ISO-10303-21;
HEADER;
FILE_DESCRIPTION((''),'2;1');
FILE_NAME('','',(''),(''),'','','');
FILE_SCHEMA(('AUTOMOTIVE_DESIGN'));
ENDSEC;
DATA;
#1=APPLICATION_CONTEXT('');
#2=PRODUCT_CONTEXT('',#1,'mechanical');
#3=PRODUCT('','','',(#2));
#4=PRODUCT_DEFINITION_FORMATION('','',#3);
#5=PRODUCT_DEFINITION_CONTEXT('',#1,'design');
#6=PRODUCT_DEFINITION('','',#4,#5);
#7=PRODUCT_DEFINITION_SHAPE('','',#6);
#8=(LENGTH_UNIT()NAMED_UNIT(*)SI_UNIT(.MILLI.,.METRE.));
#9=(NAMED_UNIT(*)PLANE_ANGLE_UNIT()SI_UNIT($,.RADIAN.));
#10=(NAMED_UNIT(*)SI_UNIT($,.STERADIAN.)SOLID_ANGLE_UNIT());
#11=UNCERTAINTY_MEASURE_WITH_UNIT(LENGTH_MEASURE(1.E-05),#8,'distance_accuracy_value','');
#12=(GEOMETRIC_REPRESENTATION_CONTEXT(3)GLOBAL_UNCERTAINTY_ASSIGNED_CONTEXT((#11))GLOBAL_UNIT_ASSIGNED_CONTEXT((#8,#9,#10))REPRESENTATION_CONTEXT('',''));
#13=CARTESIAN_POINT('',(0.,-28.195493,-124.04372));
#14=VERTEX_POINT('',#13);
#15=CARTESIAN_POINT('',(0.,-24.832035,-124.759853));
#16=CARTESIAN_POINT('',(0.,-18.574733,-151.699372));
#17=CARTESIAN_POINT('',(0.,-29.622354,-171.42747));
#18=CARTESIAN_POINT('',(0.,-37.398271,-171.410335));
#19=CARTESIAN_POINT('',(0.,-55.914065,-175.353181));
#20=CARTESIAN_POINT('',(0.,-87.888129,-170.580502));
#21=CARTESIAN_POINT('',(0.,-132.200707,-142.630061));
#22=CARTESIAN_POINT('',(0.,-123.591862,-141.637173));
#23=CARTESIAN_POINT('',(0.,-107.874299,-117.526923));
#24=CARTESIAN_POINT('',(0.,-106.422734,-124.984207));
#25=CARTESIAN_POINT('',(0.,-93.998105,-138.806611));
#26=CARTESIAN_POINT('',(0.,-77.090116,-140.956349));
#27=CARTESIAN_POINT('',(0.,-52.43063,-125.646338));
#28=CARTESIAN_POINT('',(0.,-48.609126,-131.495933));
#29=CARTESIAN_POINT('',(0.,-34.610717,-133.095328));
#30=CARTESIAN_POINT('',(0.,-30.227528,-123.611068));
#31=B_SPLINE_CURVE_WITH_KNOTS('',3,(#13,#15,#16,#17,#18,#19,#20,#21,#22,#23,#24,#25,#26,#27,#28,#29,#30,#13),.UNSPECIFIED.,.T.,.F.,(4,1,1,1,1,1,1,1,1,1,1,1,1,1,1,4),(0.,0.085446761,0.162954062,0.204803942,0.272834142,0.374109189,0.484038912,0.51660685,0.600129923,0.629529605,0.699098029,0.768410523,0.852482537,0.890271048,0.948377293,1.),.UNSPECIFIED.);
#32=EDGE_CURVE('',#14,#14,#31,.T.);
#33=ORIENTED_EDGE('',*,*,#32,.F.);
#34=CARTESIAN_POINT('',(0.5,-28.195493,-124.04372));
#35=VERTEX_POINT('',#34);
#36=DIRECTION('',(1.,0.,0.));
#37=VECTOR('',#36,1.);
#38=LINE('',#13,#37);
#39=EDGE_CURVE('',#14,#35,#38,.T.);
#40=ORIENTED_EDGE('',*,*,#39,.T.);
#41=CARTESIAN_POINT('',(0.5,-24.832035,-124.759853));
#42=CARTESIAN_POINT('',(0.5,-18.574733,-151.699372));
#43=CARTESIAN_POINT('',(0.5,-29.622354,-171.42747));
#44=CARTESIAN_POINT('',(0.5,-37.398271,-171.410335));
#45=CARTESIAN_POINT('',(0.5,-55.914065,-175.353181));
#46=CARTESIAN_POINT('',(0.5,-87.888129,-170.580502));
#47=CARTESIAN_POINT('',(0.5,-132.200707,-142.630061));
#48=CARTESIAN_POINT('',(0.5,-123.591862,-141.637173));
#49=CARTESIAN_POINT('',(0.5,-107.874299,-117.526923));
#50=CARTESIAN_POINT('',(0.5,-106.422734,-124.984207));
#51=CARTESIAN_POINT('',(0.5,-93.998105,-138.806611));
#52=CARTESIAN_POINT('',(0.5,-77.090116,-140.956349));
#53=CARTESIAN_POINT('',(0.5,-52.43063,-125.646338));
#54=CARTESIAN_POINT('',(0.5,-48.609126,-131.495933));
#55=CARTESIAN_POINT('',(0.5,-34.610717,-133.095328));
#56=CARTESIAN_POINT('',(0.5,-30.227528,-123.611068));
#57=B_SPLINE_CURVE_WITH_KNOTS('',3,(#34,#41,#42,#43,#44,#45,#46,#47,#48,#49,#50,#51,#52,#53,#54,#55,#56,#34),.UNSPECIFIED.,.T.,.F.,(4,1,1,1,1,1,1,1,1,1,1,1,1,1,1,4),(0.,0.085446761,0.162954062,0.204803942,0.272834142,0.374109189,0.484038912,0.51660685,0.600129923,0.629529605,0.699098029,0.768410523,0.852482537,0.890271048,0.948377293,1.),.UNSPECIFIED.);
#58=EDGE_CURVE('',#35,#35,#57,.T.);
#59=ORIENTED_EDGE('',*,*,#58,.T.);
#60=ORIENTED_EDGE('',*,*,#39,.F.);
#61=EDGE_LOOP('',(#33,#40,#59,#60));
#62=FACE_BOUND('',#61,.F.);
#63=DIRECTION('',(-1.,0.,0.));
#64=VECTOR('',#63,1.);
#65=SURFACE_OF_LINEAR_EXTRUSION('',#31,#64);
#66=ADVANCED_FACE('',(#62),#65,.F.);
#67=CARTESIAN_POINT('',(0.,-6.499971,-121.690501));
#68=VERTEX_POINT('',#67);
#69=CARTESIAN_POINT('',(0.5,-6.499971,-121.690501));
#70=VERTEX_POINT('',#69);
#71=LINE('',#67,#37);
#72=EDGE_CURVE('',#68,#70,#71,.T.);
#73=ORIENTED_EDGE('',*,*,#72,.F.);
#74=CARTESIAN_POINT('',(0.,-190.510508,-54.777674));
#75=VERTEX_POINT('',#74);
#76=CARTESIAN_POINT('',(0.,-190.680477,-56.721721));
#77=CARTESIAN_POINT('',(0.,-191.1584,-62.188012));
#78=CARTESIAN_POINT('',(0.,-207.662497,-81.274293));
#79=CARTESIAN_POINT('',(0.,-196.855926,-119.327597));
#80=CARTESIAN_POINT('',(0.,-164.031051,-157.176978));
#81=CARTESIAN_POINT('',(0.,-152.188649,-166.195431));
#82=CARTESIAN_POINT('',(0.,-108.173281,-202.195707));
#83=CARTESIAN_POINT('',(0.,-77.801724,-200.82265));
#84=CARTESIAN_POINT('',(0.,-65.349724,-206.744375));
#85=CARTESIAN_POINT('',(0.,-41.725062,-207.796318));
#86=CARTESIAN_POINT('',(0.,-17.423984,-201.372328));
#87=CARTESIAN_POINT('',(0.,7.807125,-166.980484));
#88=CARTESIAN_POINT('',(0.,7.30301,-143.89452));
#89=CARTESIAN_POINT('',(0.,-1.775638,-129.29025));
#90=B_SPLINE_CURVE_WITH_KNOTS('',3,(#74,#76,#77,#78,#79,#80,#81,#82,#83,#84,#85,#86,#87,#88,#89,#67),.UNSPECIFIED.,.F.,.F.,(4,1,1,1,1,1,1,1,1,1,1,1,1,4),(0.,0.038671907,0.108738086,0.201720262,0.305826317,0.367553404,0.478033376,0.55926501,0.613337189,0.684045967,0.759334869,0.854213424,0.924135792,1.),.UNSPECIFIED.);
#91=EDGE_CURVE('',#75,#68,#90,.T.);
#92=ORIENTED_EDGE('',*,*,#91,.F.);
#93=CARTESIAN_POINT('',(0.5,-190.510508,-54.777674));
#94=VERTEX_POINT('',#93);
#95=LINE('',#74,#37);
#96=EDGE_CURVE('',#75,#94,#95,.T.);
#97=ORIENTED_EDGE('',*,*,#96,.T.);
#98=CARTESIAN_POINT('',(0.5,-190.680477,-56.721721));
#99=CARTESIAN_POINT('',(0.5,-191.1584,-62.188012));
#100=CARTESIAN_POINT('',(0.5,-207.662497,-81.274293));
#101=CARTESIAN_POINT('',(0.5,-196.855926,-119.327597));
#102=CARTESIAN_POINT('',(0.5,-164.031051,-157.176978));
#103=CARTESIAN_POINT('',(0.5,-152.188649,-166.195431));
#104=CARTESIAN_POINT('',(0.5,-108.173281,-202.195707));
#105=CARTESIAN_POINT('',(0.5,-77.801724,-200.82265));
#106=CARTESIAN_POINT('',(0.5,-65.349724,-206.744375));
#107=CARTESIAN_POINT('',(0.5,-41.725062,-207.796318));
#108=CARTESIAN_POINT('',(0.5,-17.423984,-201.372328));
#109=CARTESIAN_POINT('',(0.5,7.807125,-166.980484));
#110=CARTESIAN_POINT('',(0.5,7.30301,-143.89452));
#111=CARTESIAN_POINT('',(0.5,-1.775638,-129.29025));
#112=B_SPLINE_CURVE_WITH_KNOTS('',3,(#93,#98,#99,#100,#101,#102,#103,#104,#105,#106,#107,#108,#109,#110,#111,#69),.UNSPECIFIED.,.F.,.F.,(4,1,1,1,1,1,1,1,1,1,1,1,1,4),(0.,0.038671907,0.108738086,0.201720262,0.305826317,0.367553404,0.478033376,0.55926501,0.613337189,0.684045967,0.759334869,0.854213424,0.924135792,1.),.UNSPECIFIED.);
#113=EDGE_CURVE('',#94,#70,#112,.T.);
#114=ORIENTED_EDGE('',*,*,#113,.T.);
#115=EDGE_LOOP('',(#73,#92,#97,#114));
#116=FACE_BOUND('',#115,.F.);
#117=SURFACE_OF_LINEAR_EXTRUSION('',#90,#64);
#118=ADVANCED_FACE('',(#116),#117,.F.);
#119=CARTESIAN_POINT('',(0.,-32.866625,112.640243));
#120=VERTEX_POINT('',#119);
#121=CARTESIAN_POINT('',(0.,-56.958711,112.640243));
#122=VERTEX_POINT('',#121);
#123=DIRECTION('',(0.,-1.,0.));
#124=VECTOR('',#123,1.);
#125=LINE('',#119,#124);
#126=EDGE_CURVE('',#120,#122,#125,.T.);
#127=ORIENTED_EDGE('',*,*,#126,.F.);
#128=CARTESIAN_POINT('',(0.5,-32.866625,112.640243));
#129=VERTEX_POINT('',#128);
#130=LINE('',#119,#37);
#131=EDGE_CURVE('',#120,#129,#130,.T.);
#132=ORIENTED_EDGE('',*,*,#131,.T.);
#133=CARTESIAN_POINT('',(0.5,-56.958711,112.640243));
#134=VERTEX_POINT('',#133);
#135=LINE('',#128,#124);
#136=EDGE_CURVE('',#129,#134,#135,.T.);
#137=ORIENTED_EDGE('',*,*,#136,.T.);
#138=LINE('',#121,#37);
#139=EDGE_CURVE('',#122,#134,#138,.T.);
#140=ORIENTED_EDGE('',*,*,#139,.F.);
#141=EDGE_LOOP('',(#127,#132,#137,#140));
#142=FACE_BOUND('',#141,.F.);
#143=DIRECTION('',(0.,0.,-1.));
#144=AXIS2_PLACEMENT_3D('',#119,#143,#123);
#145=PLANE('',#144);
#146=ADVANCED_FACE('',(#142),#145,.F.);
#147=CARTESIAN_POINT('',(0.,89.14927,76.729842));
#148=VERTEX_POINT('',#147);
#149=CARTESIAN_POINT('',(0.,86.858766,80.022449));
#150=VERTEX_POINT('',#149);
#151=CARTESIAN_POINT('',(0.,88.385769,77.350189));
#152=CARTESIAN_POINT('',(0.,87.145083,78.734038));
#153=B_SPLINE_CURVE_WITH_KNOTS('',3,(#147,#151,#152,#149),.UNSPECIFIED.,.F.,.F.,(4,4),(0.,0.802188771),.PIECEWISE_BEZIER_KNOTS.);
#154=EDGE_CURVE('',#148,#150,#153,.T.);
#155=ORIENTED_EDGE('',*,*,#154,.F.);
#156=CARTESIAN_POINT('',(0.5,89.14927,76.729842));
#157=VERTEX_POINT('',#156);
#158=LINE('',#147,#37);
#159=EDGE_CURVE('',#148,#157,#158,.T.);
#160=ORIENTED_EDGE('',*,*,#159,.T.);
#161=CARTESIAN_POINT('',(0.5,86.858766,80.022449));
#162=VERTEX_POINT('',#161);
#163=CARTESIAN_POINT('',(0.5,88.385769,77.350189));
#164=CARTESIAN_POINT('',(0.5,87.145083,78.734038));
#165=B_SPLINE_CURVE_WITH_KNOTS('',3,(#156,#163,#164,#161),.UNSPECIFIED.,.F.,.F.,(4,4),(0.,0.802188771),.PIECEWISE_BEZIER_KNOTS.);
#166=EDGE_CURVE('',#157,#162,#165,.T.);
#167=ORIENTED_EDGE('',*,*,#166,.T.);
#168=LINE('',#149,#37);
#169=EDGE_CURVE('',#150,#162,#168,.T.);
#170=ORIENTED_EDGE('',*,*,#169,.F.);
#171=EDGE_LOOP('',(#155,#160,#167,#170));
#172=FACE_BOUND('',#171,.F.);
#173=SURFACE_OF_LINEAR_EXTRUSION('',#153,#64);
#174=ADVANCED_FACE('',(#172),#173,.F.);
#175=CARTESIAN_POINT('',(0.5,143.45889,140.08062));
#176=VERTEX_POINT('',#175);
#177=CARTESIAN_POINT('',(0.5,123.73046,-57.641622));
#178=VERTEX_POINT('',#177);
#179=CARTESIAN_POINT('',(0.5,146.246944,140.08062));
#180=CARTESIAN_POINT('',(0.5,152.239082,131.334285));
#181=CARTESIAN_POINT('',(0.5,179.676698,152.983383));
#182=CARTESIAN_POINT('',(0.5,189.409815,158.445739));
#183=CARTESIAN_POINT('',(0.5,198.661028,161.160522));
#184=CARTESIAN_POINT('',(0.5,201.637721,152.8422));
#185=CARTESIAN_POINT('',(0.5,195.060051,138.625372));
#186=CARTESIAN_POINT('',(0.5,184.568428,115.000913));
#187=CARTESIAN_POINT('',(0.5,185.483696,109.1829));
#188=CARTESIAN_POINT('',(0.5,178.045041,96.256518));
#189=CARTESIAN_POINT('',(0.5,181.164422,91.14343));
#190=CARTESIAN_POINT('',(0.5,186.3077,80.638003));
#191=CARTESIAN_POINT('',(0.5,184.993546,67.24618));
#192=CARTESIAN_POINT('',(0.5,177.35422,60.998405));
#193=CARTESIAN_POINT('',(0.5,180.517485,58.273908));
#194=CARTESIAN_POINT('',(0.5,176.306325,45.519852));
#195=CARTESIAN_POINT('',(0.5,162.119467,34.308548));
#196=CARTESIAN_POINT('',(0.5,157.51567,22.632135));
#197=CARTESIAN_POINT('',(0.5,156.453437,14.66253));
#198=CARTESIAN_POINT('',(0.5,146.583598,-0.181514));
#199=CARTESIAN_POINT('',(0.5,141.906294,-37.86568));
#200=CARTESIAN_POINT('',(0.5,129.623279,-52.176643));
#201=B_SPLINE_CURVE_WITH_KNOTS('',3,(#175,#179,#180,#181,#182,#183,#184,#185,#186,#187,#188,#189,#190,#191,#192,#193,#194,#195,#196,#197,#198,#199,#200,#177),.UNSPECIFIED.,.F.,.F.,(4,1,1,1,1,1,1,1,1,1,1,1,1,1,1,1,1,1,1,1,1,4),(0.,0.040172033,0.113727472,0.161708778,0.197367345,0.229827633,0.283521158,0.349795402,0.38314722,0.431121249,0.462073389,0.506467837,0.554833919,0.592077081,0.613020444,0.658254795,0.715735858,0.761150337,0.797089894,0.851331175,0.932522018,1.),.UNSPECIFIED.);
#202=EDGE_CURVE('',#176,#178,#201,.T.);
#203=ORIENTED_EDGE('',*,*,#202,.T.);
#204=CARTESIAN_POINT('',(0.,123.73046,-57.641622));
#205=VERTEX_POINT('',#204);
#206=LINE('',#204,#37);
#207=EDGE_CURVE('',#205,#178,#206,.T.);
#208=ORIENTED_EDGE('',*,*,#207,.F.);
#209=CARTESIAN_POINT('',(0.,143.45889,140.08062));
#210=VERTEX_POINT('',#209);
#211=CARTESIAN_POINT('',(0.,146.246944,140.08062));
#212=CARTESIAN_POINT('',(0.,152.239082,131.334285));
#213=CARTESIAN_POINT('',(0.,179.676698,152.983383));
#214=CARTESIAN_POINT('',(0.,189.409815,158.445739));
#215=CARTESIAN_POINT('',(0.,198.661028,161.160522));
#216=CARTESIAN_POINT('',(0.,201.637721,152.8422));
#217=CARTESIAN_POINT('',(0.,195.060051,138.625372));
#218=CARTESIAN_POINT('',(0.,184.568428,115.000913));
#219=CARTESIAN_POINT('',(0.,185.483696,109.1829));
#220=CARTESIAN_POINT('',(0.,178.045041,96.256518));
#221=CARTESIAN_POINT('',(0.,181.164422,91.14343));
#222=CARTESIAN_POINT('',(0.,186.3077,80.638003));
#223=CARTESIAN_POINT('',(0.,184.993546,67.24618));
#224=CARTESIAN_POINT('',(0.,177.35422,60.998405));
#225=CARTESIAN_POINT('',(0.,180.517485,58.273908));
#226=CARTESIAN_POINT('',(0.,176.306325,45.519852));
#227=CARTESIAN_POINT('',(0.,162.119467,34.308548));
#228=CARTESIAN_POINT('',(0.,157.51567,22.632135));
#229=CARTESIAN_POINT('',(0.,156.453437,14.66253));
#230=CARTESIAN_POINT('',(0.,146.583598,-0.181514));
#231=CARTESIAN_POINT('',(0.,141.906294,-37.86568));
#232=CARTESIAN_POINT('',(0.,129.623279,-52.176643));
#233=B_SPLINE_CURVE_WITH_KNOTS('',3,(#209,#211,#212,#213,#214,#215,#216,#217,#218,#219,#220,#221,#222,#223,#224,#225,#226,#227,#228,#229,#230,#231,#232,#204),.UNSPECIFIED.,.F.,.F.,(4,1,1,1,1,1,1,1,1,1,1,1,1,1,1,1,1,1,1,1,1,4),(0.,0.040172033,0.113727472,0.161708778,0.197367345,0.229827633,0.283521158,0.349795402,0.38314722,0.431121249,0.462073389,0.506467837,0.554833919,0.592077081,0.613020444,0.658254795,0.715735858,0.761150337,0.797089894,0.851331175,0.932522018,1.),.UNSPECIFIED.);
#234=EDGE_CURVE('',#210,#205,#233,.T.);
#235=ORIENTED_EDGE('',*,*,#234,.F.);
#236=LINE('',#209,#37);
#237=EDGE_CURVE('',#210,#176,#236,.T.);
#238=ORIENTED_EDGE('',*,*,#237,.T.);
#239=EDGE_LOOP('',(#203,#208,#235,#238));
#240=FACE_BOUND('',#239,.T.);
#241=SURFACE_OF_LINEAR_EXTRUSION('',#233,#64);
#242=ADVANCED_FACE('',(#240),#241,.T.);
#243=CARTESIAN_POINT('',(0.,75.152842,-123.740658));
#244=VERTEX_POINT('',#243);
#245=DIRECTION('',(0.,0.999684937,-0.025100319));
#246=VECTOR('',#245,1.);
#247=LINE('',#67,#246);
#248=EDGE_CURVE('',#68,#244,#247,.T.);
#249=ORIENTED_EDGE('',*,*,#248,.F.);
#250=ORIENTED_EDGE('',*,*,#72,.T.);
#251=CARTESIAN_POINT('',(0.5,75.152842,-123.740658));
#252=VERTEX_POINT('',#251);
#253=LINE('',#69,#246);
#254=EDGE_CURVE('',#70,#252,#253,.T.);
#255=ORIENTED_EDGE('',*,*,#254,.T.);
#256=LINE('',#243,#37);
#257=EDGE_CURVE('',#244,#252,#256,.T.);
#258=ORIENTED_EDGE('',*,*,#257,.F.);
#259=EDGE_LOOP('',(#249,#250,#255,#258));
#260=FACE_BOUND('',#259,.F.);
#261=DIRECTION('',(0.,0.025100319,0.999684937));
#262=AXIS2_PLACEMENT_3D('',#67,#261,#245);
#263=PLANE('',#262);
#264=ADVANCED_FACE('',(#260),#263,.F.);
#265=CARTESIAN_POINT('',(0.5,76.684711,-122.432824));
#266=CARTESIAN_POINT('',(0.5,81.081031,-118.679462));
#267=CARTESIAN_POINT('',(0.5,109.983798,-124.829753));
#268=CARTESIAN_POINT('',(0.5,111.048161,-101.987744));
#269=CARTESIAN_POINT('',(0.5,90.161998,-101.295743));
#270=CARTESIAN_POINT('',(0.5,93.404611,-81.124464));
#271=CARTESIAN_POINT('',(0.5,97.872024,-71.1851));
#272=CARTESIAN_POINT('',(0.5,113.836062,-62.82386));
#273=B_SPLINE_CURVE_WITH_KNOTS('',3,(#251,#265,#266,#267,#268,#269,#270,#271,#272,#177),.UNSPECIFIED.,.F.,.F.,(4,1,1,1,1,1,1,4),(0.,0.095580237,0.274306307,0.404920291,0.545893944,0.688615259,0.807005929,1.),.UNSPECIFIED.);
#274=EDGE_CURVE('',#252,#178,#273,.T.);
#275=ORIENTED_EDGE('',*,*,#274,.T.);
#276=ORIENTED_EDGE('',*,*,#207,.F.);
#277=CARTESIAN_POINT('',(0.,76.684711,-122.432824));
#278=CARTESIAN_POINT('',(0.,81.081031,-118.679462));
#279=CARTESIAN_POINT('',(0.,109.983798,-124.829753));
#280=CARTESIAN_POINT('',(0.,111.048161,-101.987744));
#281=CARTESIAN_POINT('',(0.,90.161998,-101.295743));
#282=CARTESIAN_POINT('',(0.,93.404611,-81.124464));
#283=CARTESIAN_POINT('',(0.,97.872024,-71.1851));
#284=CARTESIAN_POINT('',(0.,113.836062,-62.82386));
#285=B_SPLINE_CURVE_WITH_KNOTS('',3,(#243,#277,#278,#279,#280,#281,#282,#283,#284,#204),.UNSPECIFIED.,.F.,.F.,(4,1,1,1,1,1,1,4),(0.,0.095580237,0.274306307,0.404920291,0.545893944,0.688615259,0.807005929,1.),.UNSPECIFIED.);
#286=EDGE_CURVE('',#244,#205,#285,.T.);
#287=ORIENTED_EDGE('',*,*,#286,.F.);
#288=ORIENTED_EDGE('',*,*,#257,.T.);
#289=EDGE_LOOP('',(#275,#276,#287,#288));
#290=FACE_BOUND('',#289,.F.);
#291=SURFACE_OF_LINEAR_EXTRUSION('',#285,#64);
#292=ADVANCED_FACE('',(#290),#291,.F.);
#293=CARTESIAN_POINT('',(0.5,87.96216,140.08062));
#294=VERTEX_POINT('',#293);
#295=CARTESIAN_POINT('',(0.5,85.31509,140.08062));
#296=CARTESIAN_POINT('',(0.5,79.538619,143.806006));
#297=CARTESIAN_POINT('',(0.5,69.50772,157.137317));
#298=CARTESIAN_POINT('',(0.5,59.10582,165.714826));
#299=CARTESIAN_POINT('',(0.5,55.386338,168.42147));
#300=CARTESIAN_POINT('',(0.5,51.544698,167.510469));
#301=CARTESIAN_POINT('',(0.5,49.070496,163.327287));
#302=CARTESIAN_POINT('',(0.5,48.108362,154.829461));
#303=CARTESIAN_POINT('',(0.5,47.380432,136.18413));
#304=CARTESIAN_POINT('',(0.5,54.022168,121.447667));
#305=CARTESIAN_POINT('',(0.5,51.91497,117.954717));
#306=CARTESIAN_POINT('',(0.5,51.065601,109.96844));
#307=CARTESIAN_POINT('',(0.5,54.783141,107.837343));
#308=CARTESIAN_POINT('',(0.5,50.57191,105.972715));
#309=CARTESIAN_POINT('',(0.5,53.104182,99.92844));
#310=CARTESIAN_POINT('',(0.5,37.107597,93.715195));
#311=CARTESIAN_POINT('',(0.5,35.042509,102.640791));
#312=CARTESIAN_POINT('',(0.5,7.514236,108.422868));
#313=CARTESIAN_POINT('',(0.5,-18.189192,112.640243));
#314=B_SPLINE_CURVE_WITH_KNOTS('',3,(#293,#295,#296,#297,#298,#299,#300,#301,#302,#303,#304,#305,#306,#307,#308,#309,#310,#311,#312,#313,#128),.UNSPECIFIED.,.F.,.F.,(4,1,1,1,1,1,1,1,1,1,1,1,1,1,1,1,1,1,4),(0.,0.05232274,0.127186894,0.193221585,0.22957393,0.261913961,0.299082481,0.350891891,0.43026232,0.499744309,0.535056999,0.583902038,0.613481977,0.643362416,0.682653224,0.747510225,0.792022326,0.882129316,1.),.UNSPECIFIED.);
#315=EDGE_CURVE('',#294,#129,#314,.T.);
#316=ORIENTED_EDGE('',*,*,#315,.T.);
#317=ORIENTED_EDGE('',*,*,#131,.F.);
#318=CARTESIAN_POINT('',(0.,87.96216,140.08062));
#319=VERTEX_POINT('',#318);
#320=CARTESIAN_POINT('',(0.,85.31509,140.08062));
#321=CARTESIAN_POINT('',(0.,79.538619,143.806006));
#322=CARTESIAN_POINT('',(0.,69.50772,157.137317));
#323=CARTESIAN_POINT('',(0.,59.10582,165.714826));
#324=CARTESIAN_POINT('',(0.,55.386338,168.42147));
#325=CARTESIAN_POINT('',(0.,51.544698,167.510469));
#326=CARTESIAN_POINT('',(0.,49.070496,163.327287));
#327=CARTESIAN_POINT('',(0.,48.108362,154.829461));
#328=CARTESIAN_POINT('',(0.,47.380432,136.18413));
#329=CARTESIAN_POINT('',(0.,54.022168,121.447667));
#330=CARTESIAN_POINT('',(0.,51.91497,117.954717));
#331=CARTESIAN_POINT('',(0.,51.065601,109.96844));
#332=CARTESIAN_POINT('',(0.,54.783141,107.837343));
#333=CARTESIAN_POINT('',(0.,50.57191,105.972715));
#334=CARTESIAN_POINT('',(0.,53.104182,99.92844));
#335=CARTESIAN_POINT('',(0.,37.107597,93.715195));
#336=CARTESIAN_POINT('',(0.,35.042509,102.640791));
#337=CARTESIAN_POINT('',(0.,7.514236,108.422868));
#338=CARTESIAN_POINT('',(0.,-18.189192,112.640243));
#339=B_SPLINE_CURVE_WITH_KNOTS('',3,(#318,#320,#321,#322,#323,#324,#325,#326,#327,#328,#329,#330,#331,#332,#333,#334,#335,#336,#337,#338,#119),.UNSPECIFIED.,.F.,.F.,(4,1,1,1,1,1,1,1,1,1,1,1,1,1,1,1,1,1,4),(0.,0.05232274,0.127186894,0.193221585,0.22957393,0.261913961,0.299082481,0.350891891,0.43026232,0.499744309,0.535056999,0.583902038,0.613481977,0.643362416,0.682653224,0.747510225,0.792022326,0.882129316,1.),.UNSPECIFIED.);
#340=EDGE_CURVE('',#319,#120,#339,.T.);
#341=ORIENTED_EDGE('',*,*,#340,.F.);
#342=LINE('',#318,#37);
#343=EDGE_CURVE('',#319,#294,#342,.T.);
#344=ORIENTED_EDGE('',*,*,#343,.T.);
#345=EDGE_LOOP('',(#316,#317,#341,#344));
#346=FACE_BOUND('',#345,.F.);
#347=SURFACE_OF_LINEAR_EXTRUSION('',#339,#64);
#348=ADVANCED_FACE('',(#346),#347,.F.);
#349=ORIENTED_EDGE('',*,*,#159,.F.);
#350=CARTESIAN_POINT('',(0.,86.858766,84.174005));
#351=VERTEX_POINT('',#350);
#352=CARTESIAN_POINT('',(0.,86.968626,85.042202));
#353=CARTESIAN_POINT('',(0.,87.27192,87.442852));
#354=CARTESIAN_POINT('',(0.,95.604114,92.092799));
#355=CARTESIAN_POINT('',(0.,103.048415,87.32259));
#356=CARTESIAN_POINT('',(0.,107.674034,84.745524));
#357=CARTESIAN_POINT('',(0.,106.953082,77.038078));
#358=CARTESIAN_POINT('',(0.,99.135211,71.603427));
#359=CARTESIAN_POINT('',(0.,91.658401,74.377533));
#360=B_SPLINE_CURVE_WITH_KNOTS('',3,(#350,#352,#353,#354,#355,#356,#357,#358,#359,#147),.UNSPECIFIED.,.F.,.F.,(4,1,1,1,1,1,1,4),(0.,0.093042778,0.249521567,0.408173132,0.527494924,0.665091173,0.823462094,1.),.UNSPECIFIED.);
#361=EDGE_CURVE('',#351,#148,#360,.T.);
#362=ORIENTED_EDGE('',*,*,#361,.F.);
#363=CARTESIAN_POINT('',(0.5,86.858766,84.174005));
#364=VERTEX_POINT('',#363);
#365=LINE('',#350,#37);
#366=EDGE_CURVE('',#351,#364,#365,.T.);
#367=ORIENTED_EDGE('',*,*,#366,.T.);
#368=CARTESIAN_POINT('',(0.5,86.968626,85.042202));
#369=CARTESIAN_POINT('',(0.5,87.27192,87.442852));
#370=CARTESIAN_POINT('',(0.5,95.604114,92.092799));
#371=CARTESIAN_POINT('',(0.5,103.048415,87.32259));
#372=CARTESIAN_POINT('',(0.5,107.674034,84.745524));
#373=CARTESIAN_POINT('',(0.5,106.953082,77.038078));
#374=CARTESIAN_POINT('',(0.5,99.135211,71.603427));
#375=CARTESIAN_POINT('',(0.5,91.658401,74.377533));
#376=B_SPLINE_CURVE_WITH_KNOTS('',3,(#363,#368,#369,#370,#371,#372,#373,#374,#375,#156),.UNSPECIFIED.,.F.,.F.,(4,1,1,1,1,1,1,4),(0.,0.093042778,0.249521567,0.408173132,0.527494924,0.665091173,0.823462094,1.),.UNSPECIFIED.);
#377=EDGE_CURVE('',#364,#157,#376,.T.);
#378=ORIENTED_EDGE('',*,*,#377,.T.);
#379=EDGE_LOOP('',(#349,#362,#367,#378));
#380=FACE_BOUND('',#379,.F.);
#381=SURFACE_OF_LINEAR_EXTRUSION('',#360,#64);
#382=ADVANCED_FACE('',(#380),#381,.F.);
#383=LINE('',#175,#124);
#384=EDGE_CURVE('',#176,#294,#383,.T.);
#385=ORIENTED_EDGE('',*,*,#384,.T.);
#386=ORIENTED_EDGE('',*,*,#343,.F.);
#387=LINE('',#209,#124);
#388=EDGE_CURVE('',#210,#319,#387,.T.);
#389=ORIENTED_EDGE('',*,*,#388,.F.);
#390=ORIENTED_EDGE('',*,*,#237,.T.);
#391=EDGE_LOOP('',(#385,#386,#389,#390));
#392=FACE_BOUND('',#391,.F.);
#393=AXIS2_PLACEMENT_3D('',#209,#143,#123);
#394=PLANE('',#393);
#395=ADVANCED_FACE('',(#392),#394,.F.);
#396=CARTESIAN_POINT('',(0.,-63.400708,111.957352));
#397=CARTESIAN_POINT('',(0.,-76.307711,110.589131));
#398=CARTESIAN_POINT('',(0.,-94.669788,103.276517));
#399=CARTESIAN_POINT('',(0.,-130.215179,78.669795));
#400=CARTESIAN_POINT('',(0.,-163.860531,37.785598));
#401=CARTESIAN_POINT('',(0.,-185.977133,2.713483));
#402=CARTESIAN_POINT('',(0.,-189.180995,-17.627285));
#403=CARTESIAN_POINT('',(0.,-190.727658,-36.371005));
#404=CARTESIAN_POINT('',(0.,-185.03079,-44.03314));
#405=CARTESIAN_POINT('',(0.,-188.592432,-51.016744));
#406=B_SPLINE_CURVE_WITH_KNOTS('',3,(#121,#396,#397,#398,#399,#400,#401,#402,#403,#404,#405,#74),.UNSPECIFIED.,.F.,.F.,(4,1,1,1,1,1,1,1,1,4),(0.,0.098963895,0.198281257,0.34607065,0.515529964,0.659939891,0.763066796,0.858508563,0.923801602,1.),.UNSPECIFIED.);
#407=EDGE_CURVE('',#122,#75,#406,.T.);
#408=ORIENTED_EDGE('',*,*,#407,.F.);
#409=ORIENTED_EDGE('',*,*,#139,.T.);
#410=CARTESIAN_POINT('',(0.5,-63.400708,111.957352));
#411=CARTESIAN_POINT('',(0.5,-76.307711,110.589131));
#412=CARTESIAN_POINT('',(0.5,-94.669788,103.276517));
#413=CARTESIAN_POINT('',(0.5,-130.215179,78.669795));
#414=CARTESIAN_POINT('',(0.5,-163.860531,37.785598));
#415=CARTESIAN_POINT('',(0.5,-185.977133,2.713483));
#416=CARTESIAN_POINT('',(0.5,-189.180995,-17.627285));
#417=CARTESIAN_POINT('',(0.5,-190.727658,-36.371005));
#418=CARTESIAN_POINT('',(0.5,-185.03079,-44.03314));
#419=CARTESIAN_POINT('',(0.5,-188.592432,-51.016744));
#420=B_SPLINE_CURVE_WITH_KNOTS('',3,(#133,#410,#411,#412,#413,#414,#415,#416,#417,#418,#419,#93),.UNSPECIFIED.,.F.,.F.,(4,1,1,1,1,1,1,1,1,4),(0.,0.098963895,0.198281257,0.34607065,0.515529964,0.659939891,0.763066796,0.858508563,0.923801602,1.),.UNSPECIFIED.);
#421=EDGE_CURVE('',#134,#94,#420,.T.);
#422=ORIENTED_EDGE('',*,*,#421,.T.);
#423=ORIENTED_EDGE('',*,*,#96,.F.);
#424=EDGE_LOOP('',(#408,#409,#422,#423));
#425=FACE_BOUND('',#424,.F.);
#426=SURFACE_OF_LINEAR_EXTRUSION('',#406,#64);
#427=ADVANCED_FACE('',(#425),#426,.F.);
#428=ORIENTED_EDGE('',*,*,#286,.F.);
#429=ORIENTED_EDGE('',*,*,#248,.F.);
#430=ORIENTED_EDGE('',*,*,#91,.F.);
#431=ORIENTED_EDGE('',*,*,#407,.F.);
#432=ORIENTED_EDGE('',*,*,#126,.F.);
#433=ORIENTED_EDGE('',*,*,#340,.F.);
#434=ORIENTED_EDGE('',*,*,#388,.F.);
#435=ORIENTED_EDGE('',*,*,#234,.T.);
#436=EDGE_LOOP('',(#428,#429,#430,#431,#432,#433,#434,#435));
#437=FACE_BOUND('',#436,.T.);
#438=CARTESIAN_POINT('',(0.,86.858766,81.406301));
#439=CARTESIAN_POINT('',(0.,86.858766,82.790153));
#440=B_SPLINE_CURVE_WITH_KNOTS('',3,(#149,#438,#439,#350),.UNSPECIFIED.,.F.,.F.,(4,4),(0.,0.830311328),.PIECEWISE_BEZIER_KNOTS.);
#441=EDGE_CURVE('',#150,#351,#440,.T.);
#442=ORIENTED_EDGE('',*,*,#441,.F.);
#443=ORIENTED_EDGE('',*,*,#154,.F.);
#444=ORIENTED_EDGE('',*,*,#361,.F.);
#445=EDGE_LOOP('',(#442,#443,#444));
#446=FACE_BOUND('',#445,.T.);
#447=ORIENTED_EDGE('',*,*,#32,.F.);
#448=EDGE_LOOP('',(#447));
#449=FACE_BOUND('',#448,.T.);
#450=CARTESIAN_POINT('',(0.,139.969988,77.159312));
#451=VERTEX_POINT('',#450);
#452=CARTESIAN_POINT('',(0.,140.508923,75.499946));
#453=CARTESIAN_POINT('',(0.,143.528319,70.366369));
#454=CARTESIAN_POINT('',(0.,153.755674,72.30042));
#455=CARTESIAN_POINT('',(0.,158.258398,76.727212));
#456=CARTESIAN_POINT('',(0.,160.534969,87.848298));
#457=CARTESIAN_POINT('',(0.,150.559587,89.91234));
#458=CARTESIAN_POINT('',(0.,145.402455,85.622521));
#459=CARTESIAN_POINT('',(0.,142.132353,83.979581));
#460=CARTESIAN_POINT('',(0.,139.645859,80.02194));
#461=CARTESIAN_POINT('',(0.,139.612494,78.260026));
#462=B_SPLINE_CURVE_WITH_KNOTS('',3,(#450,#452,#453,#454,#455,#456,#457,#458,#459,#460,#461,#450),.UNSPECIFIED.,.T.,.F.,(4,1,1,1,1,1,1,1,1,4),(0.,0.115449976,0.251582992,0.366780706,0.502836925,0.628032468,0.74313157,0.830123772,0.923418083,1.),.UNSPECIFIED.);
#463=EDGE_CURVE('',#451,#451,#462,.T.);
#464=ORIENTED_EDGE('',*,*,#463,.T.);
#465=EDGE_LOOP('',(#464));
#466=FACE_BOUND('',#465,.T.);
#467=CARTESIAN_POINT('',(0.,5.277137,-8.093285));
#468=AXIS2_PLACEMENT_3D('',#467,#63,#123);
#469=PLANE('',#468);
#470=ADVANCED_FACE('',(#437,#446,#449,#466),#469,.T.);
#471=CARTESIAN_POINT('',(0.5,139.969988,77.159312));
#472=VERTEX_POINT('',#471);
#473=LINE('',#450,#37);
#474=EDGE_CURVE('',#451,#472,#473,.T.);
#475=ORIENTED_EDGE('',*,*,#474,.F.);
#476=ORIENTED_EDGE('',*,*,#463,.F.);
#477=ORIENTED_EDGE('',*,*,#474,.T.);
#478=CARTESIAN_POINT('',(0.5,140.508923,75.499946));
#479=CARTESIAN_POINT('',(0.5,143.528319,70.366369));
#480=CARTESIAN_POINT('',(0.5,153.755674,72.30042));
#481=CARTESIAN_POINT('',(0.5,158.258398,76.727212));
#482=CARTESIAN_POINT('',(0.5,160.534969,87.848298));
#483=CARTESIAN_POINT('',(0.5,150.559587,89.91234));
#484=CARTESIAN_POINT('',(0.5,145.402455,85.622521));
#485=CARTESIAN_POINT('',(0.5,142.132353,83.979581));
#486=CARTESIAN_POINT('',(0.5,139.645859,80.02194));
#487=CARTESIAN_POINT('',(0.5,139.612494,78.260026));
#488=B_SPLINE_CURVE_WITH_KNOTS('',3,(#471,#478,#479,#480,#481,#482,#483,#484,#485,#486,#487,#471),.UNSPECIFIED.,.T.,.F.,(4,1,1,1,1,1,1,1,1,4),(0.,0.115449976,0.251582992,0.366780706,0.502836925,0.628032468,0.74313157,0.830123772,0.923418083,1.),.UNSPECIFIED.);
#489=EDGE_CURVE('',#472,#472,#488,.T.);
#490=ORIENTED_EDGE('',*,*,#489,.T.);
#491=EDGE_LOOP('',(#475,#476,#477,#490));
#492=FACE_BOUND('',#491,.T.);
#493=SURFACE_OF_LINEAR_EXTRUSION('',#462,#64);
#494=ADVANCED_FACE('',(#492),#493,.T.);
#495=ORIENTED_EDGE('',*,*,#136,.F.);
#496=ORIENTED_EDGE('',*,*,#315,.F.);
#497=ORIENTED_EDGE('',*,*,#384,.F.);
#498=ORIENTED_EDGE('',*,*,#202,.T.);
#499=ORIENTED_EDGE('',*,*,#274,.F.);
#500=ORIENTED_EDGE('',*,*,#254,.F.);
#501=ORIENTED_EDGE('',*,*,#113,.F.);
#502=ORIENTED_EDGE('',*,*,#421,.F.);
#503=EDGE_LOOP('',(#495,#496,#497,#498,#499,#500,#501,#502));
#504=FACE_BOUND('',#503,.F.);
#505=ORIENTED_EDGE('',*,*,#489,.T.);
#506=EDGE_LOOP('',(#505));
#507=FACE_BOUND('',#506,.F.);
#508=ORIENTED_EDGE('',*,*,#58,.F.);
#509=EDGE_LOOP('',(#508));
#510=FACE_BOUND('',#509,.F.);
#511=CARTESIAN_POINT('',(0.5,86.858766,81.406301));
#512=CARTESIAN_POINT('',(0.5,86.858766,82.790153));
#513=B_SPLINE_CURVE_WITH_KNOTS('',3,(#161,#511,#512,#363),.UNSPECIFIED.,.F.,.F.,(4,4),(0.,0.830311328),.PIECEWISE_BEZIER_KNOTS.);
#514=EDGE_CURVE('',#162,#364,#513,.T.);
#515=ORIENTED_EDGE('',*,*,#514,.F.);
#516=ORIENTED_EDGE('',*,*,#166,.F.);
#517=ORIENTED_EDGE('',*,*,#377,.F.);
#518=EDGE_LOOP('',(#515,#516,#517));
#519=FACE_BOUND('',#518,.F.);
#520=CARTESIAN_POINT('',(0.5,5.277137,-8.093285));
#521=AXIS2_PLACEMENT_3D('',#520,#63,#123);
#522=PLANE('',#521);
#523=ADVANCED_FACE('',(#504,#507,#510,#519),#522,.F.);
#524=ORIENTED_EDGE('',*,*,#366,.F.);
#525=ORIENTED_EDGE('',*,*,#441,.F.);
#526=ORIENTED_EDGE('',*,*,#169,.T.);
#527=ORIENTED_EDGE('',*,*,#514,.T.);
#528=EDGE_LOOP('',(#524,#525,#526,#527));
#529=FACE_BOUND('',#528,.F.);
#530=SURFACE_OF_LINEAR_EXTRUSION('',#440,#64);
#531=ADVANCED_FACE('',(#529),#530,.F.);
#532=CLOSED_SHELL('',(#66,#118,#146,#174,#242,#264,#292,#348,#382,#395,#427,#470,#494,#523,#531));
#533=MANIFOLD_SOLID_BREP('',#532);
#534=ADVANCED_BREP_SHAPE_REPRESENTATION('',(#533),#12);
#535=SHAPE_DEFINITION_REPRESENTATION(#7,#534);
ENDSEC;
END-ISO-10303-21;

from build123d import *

# Parameters (mm, degrees)
F1_DEPTH = 0.1
F2_SCALE = 5


with BuildPart() as f1:
    # F0 (on Right) → F1 (new body)
    with BuildSketch(Plane.YZ):
        with BuildLine():
            add(Edge.make_bspline(
                [(28.6917779595, 28.0161239207), (29.2493887795, 28.0161239207), (30.4478164121, 26.2668569335), (35.935339558, 30.5966765501), (37.8819629497, 31.689147801), (39.7322055782, 32.2321044415), (40.3275441688, 30.5684400154), (39.012010146, 27.7250743665), (36.9136855847, 23.0001826192), (37.0967391536, 21.8365800893), (35.609008143, 19.2513035136), (36.2328844034, 18.2286859416), (37.2615399309, 16.1276005891), (36.9987092535, 13.4492360903), (35.4708439662, 12.1996810538), (36.1034969625, 11.6547815124), (35.2612649074, 9.103970493), (32.4238934723, 6.8617096179), (31.5031339066, 4.5264269695), (31.2906873189, 2.9325059991), (29.3167196031, -0.036302802), (28.3812587673, -7.5731360635), (25.9246558463, -10.4353285899), (24.7460920364, -11.5283243358)],
                knots=[0, 0, 0, 0, 0.0401720328, 0.1137274725, 0.1617087776, 0.1973673452, 0.2298276332, 0.2835211577, 0.3497954016, 0.3831472205, 0.431121249, 0.4620733892, 0.506467837, 0.5548339191, 0.5920770806, 0.6130204438, 0.6582547955, 0.7157358577, 0.7611503368, 0.7970898942, 0.8513311751, 0.9325220178, 1, 1, 1, 1], degree=3))
            Line((28.6917779595, 28.0161239207), (17.5924319774, 28.0161239207))
            add(Edge.make_bspline(
                [(17.5924319774, 28.0161239207), (17.0630180302, 28.0161239207), (15.9077237746, 28.761201225), (13.9015439749, 31.4274634284), (11.8211639391, 33.1429652866), (11.0772675756, 33.6842940194), (10.3089396054, 33.502093786), (9.8140991865, 32.665457488), (9.6216723768, 30.9658922079), (9.4760863448, 27.2368260277), (10.8044335982, 24.2895333588), (10.3829939244, 23.5909433353), (10.2131202604, 21.993687988), (10.9566281798, 21.5674685991), (10.1143820413, 21.1945429621), (10.6208363272, 19.9856879515), (7.4215194926, 18.7430389988), (7.0085018466, 20.5281582023), (1.5028471623, 21.6845736814), (-3.6378383217, 22.5280486047), (-6.5733250231, 22.5280486047)],
                knots=[0, 0, 0, 0, 0.0523227403, 0.127186894, 0.1932215849, 0.2295739296, 0.2619139612, 0.2990824814, 0.3508918912, 0.4302623204, 0.4997443088, 0.5350569992, 0.5839020383, 0.6134819771, 0.6433624156, 0.6826532242, 0.7475102253, 0.7920223262, 0.8821293164, 1, 1, 1, 1], degree=3))
            Line((-6.5733250231, 22.5280486047), (-11.391742155, 22.5280486047))
            add(Edge.make_bspline(
                [(-11.391742155, 22.5280486047), (-12.6801415597, 22.391470413), (-15.2615421253, 22.1178262155), (-18.9339576142, 20.6553033099), (-26.0430358219, 15.7339590817), (-32.7721062796, 7.5571195871), (-37.1954266202, 0.5426965633), (-37.8361990085, -3.5254570282), (-38.1455316821, -7.2742010063), (-37.0061580743, -8.8066279925), (-37.7184863054, -10.2033488036), (-38.1021015346, -10.9555348754)],
                knots=[0, 0, 0, 0, 0.0989638946, 0.1982812569, 0.3460706502, 0.5155299636, 0.6599398914, 0.7630667957, 0.8585085634, 0.9238016023, 1, 1, 1, 1], degree=3))
            add(Edge.make_bspline(
                [(-38.1021015346, -10.9555348754), (-38.136095458, -11.3443441951), (-38.2316799388, -12.43760244), (-41.5324994269, -16.2548586419), (-39.37118514, -23.8655193068), (-32.8062102779, -31.4353956395), (-30.4377298876, -33.2390861574), (-21.6346561654, -40.4391413794), (-15.5603447219, -40.1645299012), (-13.0699448259, -41.3488749548), (-8.3450123694, -41.5592635084), (-3.4847967264, -40.2744655295), (1.5614250972, -33.3960967779), (1.4606019874, -28.7789039614), (-0.3551275761, -25.8580499104), (-1.2999942992, -24.3381001055)],
                knots=[0, 0, 0, 0, 0.0386719071, 0.108738086, 0.2017202625, 0.3058263167, 0.3675534039, 0.4780333757, 0.55926501, 0.6133371894, 0.684045967, 0.7593348691, 0.8542134236, 0.9241357923, 1, 1, 1, 1], degree=3))
            Line((-1.2999942992, -24.3381001055), (15.0305684656, -24.7481316328))
            add(Edge.make_bspline(
                [(15.0305684656, -24.7481316328), (15.3369422276, -24.4865647716), (16.2162061619, -23.7358924361), (21.9967596323, -24.9659505867), (22.2096322612, -20.3975487563), (18.0323995789, -20.259148506), (18.6809221939, -16.2248928611), (19.5744048348, -14.2370199725), (22.7672123906, -12.5647719115), (24.7460920364, -11.5283243358)],
                knots=[0, 0, 0, 0, 0.0955802371, 0.2743063074, 0.4049202907, 0.5458939437, 0.6886152586, 0.8070059294, 1, 1, 1, 1], degree=3))
        make_face()
        with BuildLine():
            add(Edge.make_bspline(
                [(-5.6390985847, -24.8087439686), (-4.9664070708, -24.9519706313), (-3.7149465905, -30.3398743056), (-5.924470776, -34.2854939636), (-7.47965419, -34.2820670899), (-11.1828129297, -35.0706361178), (-17.5776258983, -34.1161003894), (-26.4401413099, -28.5260122591), (-24.7183724619, -28.3274345286), (-21.5748598564, -23.5053845462), (-21.2845468957, -24.9968413496), (-18.7996210593, -27.7613222573), (-15.4180231068, -28.1912698271), (-10.4861259495, -25.1292675562), (-9.7218252012, -26.2991866245), (-6.9221434153, -26.6190656519), (-6.0455055238, -24.7222135035), (-5.6390985847, -24.8087439686)],
                knots=[0, 0, 0, 0, 0.0854467612, 0.1629540621, 0.2048039424, 0.2728341416, 0.3741091885, 0.4840389119, 0.5166068502, 0.600129923, 0.6295296049, 0.6990980286, 0.7684105234, 0.8524825371, 0.8902710483, 0.9483772934, 1, 1, 1, 1], degree=3))
        make_face(mode=Mode.SUBTRACT)
        with BuildLine():
            add(Edge.make_bspline(
                [(17.3717532307, 16.0044897348), (17.3717532307, 16.2812601775), (17.3717532307, 16.5580306202), (17.3717532307, 16.8348010629)],
                knots=[0, 0, 0, 0, 0.8303113282, 0.8303113282, 0.8303113282, 0.8303113282], degree=3))
            add(Edge.make_bspline(
                [(17.3717532307, 16.8348010629), (17.3937252165, 17.0084403482), (17.4543840663, 17.4885703286), (19.1208227964, 18.4185598492), (20.6096829979, 17.4645179223), (21.534806799, 16.949104748), (21.3906163922, 15.4076155827), (19.8270422027, 14.3206853539), (18.3316801261, 14.8755066067), (17.8298540413, 15.3459683061)],
                knots=[0, 0, 0, 0, 0.093042778, 0.2495215666, 0.4081731317, 0.5274949238, 0.6650911728, 0.823462094, 1, 1, 1, 1], degree=3))
            add(Edge.make_bspline(
                [(17.8298540413, 15.3459683061), (17.6771537711, 15.4700378577), (17.4290165305, 15.7468076795), (17.3717532307, 16.0044897348)],
                knots=[0, 0, 0, 0, 0.8021887713, 0.8021887713, 0.8021887713, 0.8021887713], degree=3))
        make_face(mode=Mode.SUBTRACT)
        with BuildLine():
            add(Edge.make_bspline(
                [(27.993997559, 15.4318623245), (28.1017846195, 15.0999891252), (28.7056638501, 14.0732737977), (30.7511347475, 14.4600840719), (31.6516795287, 15.345442417), (32.1069937157, 17.5696595435), (30.1119174482, 17.982468042), (29.0804910323, 17.1245041501), (28.4264705026, 16.7959161301), (27.9291717322, 16.004387946), (27.9224987155, 15.6520051673), (27.993997559, 15.4318623245)],
                knots=[0, 0, 0, 0, 0.1154499759, 0.2515829925, 0.3667807056, 0.5028369251, 0.6280324677, 0.7431315703, 0.830123772, 0.9234180827, 1, 1, 1, 1], degree=3))
        make_face(mode=Mode.SUBTRACT)
    extrude(amount=F1_DEPTH)


with BuildPart() as f1_1:
    # F2: moved
    add(f1.part.scale(F2_SCALE))


solid = f1_1.part
